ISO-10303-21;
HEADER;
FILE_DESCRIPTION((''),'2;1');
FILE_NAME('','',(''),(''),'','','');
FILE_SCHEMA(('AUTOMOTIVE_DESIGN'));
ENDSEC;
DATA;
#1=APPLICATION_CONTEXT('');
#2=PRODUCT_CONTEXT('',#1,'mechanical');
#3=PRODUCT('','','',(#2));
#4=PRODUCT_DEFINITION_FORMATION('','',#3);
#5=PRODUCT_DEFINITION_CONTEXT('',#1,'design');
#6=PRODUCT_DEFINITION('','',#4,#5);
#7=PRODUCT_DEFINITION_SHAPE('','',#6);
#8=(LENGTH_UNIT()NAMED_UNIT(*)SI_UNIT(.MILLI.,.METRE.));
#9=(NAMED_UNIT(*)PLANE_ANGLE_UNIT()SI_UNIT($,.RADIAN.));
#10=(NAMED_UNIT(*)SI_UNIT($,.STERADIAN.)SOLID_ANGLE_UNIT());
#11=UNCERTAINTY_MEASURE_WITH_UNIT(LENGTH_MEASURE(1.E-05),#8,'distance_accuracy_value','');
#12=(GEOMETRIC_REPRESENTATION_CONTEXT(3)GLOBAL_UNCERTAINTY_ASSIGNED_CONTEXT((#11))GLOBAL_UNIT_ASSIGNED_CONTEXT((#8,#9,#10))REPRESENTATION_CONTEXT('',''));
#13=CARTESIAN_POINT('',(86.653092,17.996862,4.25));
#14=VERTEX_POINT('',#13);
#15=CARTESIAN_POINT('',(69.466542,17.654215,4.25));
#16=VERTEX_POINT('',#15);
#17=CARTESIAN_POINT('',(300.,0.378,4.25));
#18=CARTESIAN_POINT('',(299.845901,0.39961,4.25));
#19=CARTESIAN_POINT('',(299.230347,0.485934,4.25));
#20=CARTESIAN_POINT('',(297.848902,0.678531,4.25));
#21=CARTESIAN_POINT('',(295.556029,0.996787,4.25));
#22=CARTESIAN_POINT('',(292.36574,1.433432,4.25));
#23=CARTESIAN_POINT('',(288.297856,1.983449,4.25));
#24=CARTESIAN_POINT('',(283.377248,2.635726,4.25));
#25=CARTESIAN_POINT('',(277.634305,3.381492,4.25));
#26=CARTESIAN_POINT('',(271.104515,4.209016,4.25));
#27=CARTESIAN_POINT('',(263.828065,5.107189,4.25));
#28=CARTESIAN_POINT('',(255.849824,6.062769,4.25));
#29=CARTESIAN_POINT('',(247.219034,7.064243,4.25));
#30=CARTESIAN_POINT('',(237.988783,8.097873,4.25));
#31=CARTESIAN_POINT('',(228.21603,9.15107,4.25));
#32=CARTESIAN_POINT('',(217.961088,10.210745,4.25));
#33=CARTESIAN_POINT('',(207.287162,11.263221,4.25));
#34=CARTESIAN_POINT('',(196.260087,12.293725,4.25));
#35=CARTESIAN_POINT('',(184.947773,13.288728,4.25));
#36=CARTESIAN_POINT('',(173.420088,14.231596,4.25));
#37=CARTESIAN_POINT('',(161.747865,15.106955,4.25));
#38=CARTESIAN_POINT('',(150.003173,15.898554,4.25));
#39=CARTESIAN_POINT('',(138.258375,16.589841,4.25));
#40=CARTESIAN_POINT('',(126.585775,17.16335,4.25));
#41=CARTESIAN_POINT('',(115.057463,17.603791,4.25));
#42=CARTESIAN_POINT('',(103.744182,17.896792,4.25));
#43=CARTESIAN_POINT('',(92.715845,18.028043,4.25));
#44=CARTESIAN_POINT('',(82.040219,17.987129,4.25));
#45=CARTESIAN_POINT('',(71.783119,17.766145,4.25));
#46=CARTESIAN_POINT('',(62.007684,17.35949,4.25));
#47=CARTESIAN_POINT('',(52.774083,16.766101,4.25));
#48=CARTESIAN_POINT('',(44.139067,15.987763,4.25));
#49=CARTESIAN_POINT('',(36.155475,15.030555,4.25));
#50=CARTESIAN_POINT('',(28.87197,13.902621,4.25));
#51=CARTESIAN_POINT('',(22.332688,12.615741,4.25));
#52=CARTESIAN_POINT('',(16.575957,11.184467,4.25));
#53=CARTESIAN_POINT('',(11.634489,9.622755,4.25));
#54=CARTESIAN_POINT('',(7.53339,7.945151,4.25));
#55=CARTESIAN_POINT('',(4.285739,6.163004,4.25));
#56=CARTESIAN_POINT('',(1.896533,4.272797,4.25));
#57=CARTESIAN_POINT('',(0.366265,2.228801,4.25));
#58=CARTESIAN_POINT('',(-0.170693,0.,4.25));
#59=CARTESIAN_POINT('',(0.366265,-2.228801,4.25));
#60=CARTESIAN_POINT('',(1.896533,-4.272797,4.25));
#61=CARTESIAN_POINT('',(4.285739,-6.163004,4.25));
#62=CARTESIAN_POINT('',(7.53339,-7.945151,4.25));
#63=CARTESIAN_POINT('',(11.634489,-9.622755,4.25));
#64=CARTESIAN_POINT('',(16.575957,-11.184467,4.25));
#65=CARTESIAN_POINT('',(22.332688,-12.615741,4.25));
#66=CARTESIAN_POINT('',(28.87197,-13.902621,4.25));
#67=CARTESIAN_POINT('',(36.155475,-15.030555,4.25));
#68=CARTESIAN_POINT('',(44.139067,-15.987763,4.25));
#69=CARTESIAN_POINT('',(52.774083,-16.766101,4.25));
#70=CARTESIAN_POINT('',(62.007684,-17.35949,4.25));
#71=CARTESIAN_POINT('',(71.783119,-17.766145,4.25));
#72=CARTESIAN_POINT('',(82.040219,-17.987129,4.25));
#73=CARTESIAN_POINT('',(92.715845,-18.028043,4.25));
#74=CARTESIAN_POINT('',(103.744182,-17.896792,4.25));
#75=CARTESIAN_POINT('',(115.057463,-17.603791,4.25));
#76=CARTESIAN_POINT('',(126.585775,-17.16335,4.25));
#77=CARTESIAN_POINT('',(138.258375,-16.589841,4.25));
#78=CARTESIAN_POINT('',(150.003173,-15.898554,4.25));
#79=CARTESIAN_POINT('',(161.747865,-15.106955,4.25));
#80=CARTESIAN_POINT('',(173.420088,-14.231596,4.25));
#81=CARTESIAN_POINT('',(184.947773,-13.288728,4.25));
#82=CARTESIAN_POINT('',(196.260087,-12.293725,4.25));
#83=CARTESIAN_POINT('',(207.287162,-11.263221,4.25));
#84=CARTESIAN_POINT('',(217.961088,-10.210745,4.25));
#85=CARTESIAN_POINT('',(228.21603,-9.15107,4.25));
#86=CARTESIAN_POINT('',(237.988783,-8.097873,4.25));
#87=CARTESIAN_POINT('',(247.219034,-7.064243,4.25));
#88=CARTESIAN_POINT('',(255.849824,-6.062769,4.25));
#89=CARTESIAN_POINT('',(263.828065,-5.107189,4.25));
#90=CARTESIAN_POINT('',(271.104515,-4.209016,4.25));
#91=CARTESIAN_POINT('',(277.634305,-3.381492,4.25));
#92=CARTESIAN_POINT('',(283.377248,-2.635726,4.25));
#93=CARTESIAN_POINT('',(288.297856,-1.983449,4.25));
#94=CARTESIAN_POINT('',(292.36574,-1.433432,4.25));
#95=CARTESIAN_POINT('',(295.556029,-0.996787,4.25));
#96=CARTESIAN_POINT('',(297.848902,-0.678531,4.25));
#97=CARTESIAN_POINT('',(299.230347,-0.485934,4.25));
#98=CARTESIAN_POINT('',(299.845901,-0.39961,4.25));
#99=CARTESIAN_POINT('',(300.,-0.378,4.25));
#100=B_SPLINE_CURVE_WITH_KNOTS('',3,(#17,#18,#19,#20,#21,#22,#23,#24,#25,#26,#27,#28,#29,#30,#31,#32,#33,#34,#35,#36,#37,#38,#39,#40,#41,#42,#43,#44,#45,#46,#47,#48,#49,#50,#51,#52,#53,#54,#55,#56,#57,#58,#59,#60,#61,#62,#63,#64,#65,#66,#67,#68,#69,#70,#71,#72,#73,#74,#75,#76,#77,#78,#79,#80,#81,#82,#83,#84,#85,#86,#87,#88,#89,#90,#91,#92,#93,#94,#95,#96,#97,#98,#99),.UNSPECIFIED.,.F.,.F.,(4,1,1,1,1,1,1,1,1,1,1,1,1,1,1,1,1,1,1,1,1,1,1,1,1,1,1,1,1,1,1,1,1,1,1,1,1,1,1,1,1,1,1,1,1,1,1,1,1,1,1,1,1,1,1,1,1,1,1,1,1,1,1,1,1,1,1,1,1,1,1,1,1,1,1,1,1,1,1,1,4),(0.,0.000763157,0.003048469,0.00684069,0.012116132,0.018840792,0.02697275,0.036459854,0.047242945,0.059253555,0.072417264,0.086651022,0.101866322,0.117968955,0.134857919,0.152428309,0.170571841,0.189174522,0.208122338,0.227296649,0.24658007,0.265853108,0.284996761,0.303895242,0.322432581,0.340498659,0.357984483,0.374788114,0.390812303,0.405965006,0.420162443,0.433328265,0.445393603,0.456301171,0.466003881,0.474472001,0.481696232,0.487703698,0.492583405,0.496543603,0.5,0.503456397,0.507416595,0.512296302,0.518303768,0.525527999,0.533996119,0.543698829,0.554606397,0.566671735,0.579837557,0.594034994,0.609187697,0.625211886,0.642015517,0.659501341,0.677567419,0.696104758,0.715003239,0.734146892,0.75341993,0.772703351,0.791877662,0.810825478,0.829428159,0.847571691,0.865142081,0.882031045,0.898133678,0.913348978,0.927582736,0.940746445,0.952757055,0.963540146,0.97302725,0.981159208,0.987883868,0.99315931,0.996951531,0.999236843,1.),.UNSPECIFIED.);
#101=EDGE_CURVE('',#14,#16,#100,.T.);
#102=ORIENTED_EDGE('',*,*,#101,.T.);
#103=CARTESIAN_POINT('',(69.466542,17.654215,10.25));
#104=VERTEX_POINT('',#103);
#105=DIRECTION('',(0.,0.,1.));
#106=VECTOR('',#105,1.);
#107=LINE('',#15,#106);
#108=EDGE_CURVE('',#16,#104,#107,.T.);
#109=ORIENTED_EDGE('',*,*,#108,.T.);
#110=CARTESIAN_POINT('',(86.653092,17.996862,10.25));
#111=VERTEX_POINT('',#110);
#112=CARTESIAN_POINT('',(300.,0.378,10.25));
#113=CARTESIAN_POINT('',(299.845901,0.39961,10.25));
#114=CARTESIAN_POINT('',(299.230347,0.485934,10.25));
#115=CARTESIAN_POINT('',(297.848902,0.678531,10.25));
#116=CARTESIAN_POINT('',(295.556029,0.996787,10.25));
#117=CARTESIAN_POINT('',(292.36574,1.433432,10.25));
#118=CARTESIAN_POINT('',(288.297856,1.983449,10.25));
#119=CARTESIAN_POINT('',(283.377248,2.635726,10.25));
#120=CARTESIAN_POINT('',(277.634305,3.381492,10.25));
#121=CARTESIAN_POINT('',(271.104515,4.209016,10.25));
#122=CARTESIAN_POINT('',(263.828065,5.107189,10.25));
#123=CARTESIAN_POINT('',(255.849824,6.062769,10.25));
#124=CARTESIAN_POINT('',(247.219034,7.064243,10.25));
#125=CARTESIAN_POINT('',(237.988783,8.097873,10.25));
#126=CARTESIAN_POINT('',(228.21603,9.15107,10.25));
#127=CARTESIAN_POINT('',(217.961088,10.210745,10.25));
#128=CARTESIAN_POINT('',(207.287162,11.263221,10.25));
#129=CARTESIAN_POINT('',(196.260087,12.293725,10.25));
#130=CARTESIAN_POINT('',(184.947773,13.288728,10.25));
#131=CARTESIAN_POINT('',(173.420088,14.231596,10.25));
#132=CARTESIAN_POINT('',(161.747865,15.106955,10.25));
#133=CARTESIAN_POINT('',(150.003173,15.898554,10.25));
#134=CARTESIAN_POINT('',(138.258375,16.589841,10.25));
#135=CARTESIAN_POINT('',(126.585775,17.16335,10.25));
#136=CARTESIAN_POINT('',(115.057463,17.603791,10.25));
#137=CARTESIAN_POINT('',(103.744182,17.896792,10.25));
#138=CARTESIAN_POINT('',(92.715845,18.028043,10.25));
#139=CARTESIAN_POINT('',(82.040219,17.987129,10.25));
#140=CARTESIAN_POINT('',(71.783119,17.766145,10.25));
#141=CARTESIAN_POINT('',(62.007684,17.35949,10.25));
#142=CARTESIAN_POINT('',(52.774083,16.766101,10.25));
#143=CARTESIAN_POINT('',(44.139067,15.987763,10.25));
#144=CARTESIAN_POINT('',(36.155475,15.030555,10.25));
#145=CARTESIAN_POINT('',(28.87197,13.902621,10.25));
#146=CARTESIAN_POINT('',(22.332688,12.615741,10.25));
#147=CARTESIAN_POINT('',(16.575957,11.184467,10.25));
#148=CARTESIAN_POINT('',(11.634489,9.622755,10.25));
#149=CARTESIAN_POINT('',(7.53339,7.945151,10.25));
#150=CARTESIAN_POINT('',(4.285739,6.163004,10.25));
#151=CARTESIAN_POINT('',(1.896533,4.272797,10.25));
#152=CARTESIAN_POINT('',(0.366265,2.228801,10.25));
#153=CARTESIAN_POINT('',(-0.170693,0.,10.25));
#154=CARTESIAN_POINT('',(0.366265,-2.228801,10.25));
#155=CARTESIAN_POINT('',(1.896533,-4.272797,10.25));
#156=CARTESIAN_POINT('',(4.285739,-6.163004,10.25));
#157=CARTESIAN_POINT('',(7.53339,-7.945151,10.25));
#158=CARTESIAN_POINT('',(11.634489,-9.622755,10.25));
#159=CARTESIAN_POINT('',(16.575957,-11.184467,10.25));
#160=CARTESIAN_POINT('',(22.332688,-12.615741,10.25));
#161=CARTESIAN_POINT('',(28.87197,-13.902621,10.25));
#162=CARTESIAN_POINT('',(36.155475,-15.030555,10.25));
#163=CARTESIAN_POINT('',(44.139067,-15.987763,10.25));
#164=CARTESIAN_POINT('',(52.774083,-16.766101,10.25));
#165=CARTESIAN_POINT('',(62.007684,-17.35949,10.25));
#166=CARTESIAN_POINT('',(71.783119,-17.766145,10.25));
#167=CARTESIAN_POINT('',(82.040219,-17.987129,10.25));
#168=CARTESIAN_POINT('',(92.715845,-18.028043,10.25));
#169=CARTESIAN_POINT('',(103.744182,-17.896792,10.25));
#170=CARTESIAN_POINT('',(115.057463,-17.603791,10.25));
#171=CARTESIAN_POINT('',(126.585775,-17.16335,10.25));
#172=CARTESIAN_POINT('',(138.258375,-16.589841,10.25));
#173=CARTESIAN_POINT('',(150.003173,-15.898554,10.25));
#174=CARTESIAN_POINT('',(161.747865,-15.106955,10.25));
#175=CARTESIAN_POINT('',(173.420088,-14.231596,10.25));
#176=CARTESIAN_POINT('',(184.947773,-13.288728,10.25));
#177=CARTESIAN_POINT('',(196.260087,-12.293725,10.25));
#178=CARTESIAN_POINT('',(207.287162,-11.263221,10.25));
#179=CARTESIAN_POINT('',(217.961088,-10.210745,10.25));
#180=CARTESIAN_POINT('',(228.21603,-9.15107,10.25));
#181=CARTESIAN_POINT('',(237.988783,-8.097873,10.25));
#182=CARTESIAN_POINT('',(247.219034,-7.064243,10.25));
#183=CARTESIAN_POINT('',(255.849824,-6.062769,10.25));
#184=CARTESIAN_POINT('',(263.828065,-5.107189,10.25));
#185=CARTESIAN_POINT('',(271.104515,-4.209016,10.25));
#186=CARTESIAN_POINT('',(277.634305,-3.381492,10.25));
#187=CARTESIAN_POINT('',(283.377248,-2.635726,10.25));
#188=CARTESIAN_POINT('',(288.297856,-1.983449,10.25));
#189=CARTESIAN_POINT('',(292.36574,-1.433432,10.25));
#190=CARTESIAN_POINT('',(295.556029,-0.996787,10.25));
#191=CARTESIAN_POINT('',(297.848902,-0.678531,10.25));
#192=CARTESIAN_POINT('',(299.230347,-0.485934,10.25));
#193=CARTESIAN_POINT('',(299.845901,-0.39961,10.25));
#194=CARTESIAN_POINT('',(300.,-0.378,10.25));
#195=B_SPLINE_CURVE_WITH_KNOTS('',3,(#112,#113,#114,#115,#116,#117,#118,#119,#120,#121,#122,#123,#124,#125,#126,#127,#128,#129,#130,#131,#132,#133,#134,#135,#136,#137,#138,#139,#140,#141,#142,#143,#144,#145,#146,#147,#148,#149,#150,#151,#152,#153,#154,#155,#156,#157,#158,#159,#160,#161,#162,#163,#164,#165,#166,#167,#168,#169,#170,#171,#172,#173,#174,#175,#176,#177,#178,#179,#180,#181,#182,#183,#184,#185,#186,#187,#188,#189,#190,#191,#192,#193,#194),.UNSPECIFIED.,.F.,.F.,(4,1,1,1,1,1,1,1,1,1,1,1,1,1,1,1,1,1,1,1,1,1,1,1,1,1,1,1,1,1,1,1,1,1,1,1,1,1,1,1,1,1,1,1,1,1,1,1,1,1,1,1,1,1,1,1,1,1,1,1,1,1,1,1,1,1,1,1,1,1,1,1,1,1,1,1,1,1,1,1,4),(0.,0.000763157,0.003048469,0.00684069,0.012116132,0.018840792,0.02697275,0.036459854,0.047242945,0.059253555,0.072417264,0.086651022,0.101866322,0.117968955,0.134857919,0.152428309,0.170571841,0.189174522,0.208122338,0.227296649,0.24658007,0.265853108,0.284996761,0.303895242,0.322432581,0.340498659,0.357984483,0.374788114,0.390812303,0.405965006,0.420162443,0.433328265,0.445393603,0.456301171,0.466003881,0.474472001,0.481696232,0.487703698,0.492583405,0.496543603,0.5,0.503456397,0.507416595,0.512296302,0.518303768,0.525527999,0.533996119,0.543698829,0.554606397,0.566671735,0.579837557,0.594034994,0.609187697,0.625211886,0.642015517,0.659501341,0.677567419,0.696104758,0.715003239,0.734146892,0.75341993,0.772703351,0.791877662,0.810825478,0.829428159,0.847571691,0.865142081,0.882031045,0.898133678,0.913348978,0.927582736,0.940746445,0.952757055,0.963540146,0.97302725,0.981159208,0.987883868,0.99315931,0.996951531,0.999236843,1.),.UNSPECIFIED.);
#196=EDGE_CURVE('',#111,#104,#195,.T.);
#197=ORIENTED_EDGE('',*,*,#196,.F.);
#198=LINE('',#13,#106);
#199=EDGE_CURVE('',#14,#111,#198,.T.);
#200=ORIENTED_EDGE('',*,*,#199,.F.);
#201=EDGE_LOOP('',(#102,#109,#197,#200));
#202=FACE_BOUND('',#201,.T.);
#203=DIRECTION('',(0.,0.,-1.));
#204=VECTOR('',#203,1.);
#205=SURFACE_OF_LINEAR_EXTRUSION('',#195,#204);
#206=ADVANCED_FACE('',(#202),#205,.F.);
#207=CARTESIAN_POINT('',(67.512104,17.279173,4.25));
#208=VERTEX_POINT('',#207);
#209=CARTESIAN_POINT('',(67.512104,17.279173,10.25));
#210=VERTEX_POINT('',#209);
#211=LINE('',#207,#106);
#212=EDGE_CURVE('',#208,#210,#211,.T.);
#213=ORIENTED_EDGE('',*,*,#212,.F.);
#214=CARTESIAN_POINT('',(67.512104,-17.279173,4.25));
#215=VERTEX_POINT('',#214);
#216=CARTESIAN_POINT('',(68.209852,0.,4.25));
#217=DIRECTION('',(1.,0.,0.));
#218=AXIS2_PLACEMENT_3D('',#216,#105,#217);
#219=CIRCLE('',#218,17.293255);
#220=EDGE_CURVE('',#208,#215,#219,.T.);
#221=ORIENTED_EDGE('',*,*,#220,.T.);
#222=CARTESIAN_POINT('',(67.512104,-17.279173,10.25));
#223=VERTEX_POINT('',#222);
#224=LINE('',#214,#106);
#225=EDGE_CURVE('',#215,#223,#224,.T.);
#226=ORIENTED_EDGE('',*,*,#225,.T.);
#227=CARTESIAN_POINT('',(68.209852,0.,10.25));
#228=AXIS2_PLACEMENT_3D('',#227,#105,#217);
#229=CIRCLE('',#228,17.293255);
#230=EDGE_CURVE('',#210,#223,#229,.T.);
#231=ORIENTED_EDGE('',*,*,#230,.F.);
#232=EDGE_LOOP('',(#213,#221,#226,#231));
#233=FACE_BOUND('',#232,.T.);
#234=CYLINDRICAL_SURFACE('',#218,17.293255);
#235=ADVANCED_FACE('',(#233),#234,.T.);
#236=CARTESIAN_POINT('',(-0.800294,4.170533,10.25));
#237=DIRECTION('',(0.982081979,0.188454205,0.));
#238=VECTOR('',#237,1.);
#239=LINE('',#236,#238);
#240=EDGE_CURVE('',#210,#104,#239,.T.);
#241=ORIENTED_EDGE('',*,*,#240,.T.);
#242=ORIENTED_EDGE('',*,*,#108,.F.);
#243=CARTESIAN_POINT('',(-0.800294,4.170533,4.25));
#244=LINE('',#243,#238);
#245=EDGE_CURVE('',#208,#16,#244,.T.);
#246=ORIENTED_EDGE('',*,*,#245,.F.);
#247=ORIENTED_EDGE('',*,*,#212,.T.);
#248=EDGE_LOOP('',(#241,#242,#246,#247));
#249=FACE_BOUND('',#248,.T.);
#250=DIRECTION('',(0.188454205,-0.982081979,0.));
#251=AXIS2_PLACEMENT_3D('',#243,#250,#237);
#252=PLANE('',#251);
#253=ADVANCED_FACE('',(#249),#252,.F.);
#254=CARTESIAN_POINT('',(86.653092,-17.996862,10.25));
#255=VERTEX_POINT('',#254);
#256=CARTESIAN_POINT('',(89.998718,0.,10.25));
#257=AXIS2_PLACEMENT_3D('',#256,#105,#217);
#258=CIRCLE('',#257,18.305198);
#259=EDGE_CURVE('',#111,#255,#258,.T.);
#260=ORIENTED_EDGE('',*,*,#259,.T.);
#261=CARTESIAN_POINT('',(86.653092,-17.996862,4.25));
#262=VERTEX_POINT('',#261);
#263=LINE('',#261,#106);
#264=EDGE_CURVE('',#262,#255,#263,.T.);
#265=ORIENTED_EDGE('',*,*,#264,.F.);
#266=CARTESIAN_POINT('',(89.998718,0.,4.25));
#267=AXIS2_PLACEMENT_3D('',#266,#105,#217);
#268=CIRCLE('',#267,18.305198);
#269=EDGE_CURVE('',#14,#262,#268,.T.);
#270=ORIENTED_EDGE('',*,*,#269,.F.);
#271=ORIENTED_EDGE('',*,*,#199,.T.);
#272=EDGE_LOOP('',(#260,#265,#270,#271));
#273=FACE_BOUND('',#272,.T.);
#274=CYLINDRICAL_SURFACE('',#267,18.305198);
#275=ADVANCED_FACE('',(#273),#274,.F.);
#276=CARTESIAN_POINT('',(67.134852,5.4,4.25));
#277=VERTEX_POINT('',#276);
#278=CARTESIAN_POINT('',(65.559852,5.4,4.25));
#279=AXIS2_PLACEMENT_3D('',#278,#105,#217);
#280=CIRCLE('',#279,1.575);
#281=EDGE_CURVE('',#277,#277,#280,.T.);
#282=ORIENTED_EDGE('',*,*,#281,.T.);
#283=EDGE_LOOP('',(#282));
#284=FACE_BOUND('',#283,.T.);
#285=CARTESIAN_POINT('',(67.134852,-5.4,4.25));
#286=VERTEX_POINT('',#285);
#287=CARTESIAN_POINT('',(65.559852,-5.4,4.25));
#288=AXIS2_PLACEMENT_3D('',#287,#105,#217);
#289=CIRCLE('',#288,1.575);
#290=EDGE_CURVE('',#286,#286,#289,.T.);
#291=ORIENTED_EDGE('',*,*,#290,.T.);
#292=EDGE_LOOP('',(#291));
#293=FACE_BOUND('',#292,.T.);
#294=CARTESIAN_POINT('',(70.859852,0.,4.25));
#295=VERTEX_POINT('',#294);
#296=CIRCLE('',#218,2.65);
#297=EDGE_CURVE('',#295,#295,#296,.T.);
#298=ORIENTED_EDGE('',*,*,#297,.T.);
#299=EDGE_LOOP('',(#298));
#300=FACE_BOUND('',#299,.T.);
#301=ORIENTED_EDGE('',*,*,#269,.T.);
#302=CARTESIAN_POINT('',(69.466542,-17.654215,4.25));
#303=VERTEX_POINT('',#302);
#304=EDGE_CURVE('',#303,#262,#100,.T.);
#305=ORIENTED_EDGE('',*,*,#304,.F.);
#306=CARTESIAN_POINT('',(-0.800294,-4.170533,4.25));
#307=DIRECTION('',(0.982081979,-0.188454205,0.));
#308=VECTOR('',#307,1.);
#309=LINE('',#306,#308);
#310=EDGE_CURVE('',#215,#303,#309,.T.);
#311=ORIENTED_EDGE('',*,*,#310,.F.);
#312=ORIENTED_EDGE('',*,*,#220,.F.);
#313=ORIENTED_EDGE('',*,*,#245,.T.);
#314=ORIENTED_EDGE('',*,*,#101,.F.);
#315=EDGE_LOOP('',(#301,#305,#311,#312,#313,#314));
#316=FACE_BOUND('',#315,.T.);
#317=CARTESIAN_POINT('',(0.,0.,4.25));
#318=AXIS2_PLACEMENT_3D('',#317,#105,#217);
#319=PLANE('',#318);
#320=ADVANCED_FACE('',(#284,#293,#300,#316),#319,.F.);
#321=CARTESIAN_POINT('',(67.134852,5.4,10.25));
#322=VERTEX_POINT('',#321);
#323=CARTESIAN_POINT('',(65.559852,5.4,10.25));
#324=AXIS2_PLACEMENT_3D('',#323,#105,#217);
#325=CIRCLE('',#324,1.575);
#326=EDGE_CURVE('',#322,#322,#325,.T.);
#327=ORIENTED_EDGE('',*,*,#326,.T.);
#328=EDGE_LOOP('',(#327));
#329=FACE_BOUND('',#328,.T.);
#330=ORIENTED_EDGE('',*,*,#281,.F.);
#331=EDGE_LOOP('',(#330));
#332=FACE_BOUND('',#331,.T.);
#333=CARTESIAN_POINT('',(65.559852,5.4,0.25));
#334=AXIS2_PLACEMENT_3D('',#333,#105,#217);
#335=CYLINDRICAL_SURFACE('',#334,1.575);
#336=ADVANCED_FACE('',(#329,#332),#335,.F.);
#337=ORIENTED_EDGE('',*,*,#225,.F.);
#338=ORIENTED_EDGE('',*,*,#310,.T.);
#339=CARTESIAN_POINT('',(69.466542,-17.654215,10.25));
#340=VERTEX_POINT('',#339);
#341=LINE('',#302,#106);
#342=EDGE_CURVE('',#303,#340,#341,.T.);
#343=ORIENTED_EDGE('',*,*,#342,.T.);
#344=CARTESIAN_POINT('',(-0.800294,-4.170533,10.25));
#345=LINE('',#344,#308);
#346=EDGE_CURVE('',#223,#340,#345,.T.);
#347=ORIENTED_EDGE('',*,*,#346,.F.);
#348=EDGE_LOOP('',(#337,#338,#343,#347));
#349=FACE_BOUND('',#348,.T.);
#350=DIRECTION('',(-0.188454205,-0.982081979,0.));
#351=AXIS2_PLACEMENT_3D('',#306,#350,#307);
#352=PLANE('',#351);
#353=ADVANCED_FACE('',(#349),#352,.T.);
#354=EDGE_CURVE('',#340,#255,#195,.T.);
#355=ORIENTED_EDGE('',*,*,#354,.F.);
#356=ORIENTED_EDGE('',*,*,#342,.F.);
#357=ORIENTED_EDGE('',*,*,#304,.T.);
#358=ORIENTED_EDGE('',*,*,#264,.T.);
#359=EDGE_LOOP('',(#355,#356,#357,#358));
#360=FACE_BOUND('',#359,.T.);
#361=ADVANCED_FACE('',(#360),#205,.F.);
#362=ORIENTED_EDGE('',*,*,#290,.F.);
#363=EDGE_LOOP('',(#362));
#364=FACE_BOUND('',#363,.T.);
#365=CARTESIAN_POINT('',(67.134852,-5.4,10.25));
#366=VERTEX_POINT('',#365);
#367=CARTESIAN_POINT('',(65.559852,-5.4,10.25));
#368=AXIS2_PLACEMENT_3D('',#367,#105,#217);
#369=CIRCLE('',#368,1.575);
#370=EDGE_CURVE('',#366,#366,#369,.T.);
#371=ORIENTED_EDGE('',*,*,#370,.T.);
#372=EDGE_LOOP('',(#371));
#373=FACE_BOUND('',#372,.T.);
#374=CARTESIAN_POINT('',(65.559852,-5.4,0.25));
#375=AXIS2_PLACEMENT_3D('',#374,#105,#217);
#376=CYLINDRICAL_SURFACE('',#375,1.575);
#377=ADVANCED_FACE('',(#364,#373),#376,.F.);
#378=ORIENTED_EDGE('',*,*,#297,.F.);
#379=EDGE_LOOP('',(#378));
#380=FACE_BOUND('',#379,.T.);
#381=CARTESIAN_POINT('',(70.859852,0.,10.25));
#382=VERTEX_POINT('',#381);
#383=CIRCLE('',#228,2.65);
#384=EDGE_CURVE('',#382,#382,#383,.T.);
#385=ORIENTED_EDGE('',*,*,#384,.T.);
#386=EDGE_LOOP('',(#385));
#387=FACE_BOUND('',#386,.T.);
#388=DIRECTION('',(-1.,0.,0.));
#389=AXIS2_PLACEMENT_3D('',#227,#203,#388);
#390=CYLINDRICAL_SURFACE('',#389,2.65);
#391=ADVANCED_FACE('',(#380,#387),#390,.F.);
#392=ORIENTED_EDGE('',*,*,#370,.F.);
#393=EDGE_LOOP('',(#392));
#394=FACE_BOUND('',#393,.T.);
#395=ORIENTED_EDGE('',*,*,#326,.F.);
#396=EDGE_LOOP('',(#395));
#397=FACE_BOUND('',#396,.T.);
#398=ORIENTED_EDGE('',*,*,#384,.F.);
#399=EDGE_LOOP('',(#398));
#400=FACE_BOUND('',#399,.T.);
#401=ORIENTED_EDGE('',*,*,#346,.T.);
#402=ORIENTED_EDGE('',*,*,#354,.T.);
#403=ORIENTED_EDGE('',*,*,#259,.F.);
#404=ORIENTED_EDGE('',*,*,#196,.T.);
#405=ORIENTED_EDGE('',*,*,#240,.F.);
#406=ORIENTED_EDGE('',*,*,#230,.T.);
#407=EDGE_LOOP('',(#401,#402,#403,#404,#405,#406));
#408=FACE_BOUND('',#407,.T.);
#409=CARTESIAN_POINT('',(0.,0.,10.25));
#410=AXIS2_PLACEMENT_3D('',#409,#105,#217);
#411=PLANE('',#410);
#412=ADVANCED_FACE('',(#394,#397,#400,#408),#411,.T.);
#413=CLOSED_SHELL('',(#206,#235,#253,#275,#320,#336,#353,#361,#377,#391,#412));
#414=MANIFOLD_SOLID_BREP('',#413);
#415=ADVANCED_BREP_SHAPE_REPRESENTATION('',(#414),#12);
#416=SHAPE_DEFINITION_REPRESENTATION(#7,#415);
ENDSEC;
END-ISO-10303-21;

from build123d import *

# Parameters (mm, degrees)
BOSS_EXTRUDE5_START = 4.25
BOSS_EXTRUDE5_DEPTH = 6
CUT_EXTRUDE2_DEPTH  = 92.979276087
SKETCH4_R           = 1.575
CUT_EXTRUDE3_DEPTH  = 10


with BuildPart() as part:
    # Sketch2 → Boss-Extrude5 (new body)
    with BuildSketch(Plane.XY.offset(BOSS_EXTRUDE5_START)):
        with BuildLine():
            ThreePointArc((68.209851787, 17.593254842), (67.854853617, 17.589672886), (67.5, 17.578928476))
            ThreePointArc((67.5, 17.578928476), (61.469163108, 16.250714817), (56.268821721, 12.920310248))
            ThreePointArc((56.268821721, 12.920310248), (61.039234507, 7.227490774), (62.750493933, 0))
            Line((62.750493933, 0), (65.559851787, 0))
            ThreePointArc((65.559851787, 0), (66.336018817, 1.87383297), (68.209851787, 2.65))
            Line((68.209851787, 2.65), (68.209851787, 17.593254842))
        make_face()
        with BuildLine():
            ThreePointArc((56.268821721, -12.920310248), (61.469163108, -16.250714817), (67.5, -17.578928476))
            ThreePointArc((67.5, -17.578928476), (67.854853617, -17.589672886), (68.209851787, -17.593254842))
            Line((68.209851787, -17.593254842), (68.209851787, -2.65))
            ThreePointArc((68.209851787, -2.65), (66.336018817, -1.87383297), (65.559851787, 0))
            Line((65.559851787, 0), (62.750493933, 0))
            ThreePointArc((62.750493933, 0), (61.039234507, -7.227490774), (56.268821721, -12.920310248))
        make_face()
        with BuildLine():
            ThreePointArc((62.750493933, 0), (61.039234507, 7.227490774), (56.268821721, 12.920310248))
            ThreePointArc((56.268821721, 12.920310248), (52.091474062, 7.051277576), (50.616596945, 0))
            Line((50.616596945, 0), (62.750493933, 0))
        make_face()
        with BuildLine():
            ThreePointArc((50.616596945, 0), (52.091474062, -7.051277576), (56.268821721, -12.920310248))
            ThreePointArc((56.268821721, -12.920310248), (61.039234507, -7.227490774), (62.750493933, 0))
            Line((62.750493933, 0), (50.616596945, 0))
        make_face()
        with BuildLine():
            ThreePointArc((62.750493933, 0), (61.039234507, 7.227490774), (56.268821721, 12.920310248))
            ThreePointArc((56.268821721, 12.920310248), (52.091474062, 7.051277576), (50.616596945, 0))
            Line((50.616596945, 0), (62.750493933, 0))
        make_face()
        with BuildLine():
            ThreePointArc((50.616596945, 0), (52.091474062, -7.051277576), (56.268821721, -12.920310248))
            ThreePointArc((56.268821721, -12.920310248), (61.039234507, -7.227490774), (62.750493933, 0))
            Line((62.750493933, 0), (50.616596945, 0))
        make_face()
        with BuildLine():
            ThreePointArc((68.209851787, 17.593254842), (67.854853617, 17.589672886), (67.5, 17.578928476))
            ThreePointArc((67.5, 17.578928476), (61.469163108, 16.250714817), (56.268821721, 12.920310248))
            ThreePointArc((56.268821721, 12.920310248), (61.039234507, 7.227490774), (62.750493933, 0))
            Line((62.750493933, 0), (65.559851787, 0))
            ThreePointArc((65.559851787, 0), (66.336018817, 1.87383297), (68.209851787, 2.65))
            Line((68.209851787, 2.65), (68.209851787, 17.593254842))
        make_face()
        with BuildLine():
            ThreePointArc((56.268821721, -12.920310248), (61.469163108, -16.250714817), (67.5, -17.578928476))
            ThreePointArc((67.5, -17.578928476), (67.854853617, -17.589672886), (68.209851787, -17.593254842))
            Line((68.209851787, -17.593254842), (68.209851787, -2.65))
            ThreePointArc((68.209851787, -2.65), (66.336018817, -1.87383297), (65.559851787, 0))
            Line((65.559851787, 0), (62.750493933, 0))
            ThreePointArc((62.750493933, 0), (61.039234507, -7.227490774), (56.268821721, -12.920310248))
        make_face()
        with BuildLine():
            ThreePointArc((78.767770494, 14.073129307), (73.774493088, 16.69003844), (68.209851787, 17.593254842))
            Line((68.209851787, 17.593254842), (68.209851787, 2.65))
            ThreePointArc((68.209851787, 2.65), (70.083684757, 1.87383297), (70.859851787, 0))
            Line((70.859851787, 0), (71.993520086, 0))
            ThreePointArc((71.993520086, 0), (73.775238341, 7.809344356), (78.767770494, 14.073129307))
        make_face()
        with BuildLine():
            Line((68.209851787, -2.65), (68.209851787, -17.593254842))
            ThreePointArc((68.209851787, -17.593254842), (73.774493088, -16.69003844), (78.767770494, -14.073129307))
            ThreePointArc((78.767770494, -14.073129307), (73.775238341, -7.809344356), (71.993520086, 0))
            Line((71.993520086, 0), (70.859851787, 0))
            ThreePointArc((70.859851787, 0), (70.083684757, -1.87383297), (68.209851787, -2.65))
        make_face()
        with BuildLine():
            ThreePointArc((78.767770494, 14.073129307), (73.774493088, 16.69003844), (68.209851787, 17.593254842))
            Line((68.209851787, 17.593254842), (68.209851787, 2.65))
            ThreePointArc((68.209851787, 2.65), (70.083684757, 1.87383297), (70.859851787, 0))
            Line((70.859851787, 0), (71.993520086, 0))
            ThreePointArc((71.993520086, 0), (73.775238341, 7.809344356), (78.767770494, 14.073129307))
        make_face()
        with BuildLine():
            Line((68.209851787, -2.65), (68.209851787, -17.593254842))
            ThreePointArc((68.209851787, -17.593254842), (73.774493088, -16.69003844), (78.767770494, -14.073129307))
            ThreePointArc((78.767770494, -14.073129307), (73.775238341, -7.809344356), (71.993520086, 0))
            Line((71.993520086, 0), (70.859851787, 0))
            ThreePointArc((70.859851787, 0), (70.083684757, -1.87383297), (68.209851787, -2.65))
        make_face()
        with BuildLine():
            add(Edge.make_bspline(
                [(90, 18.005197753), (87.300427685, 18.005389985), (81.17457593, 17.968478919), (73.674128402, 17.806885767), (68.874876564, 17.634447138), (67.5, 17.578928476)],
                knots=[0.344744853, 0.344744853, 0.344744853, 0.344744853, 0.357984483, 0.374788114, 0.381536428, 0.381536428, 0.381536428, 0.381536428], degree=3))
            ThreePointArc((67.5, 17.578928476), (67.854853617, 17.589672886), (68.209851787, 17.593254842))
            ThreePointArc((68.209851787, 17.593254842), (73.774493088, 16.69003844), (78.767770494, 14.073129307))
            ThreePointArc((78.767770494, 14.073129307), (84.049630886, 16.993984573), (90, 18.005197753))
        make_face()
        with BuildLine():
            ThreePointArc((68.209851787, -17.593254842), (67.854853617, -17.589672886), (67.5, -17.578928476))
            add(Edge.make_bspline(
                [(67.5, -17.578928476), (68.874876564, -17.634447138), (73.674128402, -17.806885767), (81.17457593, -17.968478919), (87.300427685, -18.005389985), (90, -18.005197753)],
                knots=[0.618463572, 0.618463572, 0.618463572, 0.618463572, 0.625211886, 0.642015517, 0.655255147, 0.655255147, 0.655255147, 0.655255147], degree=3))
            ThreePointArc((90, -18.005197753), (84.049630886, -16.993984573), (78.767770494, -14.073129307))
            ThreePointArc((78.767770494, -14.073129307), (73.774493088, -16.69003844), (68.209851787, -17.593254842))
        make_face()
        with BuildLine():
            add(Edge.make_bspline(
                [(90, 18.005197753), (87.300427685, 18.005389985), (81.17457593, 17.968478919), (73.674128402, 17.806885767), (68.874876564, 17.634447138), (67.5, 17.578928476)],
                knots=[0.344744853, 0.344744853, 0.344744853, 0.344744853, 0.357984483, 0.374788114, 0.381536428, 0.381536428, 0.381536428, 0.381536428], degree=3))
            ThreePointArc((67.5, 17.578928476), (67.854853617, 17.589672886), (68.209851787, 17.593254842))
            ThreePointArc((68.209851787, 17.593254842), (73.774493088, 16.69003844), (78.767770494, 14.073129307))
            ThreePointArc((78.767770494, 14.073129307), (84.049630886, 16.993984573), (90, 18.005197753))
        make_face()
        with BuildLine():
            ThreePointArc((68.209851787, -17.593254842), (67.854853617, -17.589672886), (67.5, -17.578928476))
            add(Edge.make_bspline(
                [(67.5, -17.578928476), (68.874876564, -17.634447138), (73.674128402, -17.806885767), (81.17457593, -17.968478919), (87.300427685, -18.005389985), (90, -18.005197753)],
                knots=[0.618463572, 0.618463572, 0.618463572, 0.618463572, 0.625211886, 0.642015517, 0.655255147, 0.655255147, 0.655255147, 0.655255147], degree=3))
            ThreePointArc((90, -18.005197753), (84.049630886, -16.993984573), (78.767770494, -14.073129307))
            ThreePointArc((78.767770494, -14.073129307), (73.774493088, -16.69003844), (68.209851787, -17.593254842))
        make_face()
    extrude(amount=BOSS_EXTRUDE5_DEPTH)

    # Sketch3 → Cut-Extrude2 (cut, through all)
    with BuildSketch(Plane.XY.offset(10.25)):
        with BuildLine():
            ThreePointArc((67.512104385, -17.279172769), (50.916596945, 0), (67.512104385, 17.279172769))
            Line((67.512104385, 17.279172769), (69.466542011, 17.654214769))
            add(Edge.make_bspline(
                [(69.466542011, 17.654214769), (68.810976965, 17.630475848), (68.155460296, 17.605396509), (67.5, 17.578928476)],
                knots=[0.378319229, 0.378319229, 0.378319229, 0.378319229, 0.381536428, 0.381536428, 0.381536428, 0.381536428], degree=3))
            ThreePointArc((67.5, 17.578928476), (50.616596945, 0), (67.5, -17.578928476))
            add(Edge.make_bspline(
                [(67.5, -17.578928476), (68.155460296, -17.605396509), (68.810976965, -17.630475848), (69.466542011, -17.654214769)],
                knots=[0.618463572, 0.618463572, 0.618463572, 0.618463572, 0.621680771, 0.621680771, 0.621680771, 0.621680771], degree=3))
            Line((69.466542011, -17.654214769), (67.512104385, -17.279172769))
        make_face()
        with BuildLine():
            add(Edge.make_bspline(
                [(90, 18.005197753), (88.88435893, 18.005277196), (87.768717531, 18.00254573), (86.653091523, 17.996862246)],
                knots=[0.344744853, 0.344744853, 0.344744853, 0.344744853, 0.35021634, 0.35021634, 0.35021634, 0.35021634], degree=3))
            ThreePointArc((86.653091523, 17.996862246), (71.693520086, 0), (86.653091523, -17.996862246))
            add(Edge.make_bspline(
                [(86.653091523, -17.996862246), (87.768717531, -18.00254573), (88.88435893, -18.005277196), (90, -18.005197753)],
                knots=[0.64978366, 0.64978366, 0.64978366, 0.64978366, 0.655255147, 0.655255147, 0.655255147, 0.655255147], degree=3))
            ThreePointArc((90, -18.005197753), (71.993520086, 0), (90, 18.005197753))
        make_face()
    extrude(amount=-CUT_EXTRUDE2_DEPTH, mode=Mode.SUBTRACT)

    # Sketch4 → Cut-Extrude3 (cut)
    with BuildSketch(Plane.XY.offset(10.25)):
        with Locations((65.559851787, 5.4)):
            Circle(SKETCH4_R)
        with Locations((65.559851787, -5.4)):
            Circle(SKETCH4_R)
    extrude(amount=-CUT_EXTRUDE3_DEPTH, mode=Mode.SUBTRACT)


solid = part.part
